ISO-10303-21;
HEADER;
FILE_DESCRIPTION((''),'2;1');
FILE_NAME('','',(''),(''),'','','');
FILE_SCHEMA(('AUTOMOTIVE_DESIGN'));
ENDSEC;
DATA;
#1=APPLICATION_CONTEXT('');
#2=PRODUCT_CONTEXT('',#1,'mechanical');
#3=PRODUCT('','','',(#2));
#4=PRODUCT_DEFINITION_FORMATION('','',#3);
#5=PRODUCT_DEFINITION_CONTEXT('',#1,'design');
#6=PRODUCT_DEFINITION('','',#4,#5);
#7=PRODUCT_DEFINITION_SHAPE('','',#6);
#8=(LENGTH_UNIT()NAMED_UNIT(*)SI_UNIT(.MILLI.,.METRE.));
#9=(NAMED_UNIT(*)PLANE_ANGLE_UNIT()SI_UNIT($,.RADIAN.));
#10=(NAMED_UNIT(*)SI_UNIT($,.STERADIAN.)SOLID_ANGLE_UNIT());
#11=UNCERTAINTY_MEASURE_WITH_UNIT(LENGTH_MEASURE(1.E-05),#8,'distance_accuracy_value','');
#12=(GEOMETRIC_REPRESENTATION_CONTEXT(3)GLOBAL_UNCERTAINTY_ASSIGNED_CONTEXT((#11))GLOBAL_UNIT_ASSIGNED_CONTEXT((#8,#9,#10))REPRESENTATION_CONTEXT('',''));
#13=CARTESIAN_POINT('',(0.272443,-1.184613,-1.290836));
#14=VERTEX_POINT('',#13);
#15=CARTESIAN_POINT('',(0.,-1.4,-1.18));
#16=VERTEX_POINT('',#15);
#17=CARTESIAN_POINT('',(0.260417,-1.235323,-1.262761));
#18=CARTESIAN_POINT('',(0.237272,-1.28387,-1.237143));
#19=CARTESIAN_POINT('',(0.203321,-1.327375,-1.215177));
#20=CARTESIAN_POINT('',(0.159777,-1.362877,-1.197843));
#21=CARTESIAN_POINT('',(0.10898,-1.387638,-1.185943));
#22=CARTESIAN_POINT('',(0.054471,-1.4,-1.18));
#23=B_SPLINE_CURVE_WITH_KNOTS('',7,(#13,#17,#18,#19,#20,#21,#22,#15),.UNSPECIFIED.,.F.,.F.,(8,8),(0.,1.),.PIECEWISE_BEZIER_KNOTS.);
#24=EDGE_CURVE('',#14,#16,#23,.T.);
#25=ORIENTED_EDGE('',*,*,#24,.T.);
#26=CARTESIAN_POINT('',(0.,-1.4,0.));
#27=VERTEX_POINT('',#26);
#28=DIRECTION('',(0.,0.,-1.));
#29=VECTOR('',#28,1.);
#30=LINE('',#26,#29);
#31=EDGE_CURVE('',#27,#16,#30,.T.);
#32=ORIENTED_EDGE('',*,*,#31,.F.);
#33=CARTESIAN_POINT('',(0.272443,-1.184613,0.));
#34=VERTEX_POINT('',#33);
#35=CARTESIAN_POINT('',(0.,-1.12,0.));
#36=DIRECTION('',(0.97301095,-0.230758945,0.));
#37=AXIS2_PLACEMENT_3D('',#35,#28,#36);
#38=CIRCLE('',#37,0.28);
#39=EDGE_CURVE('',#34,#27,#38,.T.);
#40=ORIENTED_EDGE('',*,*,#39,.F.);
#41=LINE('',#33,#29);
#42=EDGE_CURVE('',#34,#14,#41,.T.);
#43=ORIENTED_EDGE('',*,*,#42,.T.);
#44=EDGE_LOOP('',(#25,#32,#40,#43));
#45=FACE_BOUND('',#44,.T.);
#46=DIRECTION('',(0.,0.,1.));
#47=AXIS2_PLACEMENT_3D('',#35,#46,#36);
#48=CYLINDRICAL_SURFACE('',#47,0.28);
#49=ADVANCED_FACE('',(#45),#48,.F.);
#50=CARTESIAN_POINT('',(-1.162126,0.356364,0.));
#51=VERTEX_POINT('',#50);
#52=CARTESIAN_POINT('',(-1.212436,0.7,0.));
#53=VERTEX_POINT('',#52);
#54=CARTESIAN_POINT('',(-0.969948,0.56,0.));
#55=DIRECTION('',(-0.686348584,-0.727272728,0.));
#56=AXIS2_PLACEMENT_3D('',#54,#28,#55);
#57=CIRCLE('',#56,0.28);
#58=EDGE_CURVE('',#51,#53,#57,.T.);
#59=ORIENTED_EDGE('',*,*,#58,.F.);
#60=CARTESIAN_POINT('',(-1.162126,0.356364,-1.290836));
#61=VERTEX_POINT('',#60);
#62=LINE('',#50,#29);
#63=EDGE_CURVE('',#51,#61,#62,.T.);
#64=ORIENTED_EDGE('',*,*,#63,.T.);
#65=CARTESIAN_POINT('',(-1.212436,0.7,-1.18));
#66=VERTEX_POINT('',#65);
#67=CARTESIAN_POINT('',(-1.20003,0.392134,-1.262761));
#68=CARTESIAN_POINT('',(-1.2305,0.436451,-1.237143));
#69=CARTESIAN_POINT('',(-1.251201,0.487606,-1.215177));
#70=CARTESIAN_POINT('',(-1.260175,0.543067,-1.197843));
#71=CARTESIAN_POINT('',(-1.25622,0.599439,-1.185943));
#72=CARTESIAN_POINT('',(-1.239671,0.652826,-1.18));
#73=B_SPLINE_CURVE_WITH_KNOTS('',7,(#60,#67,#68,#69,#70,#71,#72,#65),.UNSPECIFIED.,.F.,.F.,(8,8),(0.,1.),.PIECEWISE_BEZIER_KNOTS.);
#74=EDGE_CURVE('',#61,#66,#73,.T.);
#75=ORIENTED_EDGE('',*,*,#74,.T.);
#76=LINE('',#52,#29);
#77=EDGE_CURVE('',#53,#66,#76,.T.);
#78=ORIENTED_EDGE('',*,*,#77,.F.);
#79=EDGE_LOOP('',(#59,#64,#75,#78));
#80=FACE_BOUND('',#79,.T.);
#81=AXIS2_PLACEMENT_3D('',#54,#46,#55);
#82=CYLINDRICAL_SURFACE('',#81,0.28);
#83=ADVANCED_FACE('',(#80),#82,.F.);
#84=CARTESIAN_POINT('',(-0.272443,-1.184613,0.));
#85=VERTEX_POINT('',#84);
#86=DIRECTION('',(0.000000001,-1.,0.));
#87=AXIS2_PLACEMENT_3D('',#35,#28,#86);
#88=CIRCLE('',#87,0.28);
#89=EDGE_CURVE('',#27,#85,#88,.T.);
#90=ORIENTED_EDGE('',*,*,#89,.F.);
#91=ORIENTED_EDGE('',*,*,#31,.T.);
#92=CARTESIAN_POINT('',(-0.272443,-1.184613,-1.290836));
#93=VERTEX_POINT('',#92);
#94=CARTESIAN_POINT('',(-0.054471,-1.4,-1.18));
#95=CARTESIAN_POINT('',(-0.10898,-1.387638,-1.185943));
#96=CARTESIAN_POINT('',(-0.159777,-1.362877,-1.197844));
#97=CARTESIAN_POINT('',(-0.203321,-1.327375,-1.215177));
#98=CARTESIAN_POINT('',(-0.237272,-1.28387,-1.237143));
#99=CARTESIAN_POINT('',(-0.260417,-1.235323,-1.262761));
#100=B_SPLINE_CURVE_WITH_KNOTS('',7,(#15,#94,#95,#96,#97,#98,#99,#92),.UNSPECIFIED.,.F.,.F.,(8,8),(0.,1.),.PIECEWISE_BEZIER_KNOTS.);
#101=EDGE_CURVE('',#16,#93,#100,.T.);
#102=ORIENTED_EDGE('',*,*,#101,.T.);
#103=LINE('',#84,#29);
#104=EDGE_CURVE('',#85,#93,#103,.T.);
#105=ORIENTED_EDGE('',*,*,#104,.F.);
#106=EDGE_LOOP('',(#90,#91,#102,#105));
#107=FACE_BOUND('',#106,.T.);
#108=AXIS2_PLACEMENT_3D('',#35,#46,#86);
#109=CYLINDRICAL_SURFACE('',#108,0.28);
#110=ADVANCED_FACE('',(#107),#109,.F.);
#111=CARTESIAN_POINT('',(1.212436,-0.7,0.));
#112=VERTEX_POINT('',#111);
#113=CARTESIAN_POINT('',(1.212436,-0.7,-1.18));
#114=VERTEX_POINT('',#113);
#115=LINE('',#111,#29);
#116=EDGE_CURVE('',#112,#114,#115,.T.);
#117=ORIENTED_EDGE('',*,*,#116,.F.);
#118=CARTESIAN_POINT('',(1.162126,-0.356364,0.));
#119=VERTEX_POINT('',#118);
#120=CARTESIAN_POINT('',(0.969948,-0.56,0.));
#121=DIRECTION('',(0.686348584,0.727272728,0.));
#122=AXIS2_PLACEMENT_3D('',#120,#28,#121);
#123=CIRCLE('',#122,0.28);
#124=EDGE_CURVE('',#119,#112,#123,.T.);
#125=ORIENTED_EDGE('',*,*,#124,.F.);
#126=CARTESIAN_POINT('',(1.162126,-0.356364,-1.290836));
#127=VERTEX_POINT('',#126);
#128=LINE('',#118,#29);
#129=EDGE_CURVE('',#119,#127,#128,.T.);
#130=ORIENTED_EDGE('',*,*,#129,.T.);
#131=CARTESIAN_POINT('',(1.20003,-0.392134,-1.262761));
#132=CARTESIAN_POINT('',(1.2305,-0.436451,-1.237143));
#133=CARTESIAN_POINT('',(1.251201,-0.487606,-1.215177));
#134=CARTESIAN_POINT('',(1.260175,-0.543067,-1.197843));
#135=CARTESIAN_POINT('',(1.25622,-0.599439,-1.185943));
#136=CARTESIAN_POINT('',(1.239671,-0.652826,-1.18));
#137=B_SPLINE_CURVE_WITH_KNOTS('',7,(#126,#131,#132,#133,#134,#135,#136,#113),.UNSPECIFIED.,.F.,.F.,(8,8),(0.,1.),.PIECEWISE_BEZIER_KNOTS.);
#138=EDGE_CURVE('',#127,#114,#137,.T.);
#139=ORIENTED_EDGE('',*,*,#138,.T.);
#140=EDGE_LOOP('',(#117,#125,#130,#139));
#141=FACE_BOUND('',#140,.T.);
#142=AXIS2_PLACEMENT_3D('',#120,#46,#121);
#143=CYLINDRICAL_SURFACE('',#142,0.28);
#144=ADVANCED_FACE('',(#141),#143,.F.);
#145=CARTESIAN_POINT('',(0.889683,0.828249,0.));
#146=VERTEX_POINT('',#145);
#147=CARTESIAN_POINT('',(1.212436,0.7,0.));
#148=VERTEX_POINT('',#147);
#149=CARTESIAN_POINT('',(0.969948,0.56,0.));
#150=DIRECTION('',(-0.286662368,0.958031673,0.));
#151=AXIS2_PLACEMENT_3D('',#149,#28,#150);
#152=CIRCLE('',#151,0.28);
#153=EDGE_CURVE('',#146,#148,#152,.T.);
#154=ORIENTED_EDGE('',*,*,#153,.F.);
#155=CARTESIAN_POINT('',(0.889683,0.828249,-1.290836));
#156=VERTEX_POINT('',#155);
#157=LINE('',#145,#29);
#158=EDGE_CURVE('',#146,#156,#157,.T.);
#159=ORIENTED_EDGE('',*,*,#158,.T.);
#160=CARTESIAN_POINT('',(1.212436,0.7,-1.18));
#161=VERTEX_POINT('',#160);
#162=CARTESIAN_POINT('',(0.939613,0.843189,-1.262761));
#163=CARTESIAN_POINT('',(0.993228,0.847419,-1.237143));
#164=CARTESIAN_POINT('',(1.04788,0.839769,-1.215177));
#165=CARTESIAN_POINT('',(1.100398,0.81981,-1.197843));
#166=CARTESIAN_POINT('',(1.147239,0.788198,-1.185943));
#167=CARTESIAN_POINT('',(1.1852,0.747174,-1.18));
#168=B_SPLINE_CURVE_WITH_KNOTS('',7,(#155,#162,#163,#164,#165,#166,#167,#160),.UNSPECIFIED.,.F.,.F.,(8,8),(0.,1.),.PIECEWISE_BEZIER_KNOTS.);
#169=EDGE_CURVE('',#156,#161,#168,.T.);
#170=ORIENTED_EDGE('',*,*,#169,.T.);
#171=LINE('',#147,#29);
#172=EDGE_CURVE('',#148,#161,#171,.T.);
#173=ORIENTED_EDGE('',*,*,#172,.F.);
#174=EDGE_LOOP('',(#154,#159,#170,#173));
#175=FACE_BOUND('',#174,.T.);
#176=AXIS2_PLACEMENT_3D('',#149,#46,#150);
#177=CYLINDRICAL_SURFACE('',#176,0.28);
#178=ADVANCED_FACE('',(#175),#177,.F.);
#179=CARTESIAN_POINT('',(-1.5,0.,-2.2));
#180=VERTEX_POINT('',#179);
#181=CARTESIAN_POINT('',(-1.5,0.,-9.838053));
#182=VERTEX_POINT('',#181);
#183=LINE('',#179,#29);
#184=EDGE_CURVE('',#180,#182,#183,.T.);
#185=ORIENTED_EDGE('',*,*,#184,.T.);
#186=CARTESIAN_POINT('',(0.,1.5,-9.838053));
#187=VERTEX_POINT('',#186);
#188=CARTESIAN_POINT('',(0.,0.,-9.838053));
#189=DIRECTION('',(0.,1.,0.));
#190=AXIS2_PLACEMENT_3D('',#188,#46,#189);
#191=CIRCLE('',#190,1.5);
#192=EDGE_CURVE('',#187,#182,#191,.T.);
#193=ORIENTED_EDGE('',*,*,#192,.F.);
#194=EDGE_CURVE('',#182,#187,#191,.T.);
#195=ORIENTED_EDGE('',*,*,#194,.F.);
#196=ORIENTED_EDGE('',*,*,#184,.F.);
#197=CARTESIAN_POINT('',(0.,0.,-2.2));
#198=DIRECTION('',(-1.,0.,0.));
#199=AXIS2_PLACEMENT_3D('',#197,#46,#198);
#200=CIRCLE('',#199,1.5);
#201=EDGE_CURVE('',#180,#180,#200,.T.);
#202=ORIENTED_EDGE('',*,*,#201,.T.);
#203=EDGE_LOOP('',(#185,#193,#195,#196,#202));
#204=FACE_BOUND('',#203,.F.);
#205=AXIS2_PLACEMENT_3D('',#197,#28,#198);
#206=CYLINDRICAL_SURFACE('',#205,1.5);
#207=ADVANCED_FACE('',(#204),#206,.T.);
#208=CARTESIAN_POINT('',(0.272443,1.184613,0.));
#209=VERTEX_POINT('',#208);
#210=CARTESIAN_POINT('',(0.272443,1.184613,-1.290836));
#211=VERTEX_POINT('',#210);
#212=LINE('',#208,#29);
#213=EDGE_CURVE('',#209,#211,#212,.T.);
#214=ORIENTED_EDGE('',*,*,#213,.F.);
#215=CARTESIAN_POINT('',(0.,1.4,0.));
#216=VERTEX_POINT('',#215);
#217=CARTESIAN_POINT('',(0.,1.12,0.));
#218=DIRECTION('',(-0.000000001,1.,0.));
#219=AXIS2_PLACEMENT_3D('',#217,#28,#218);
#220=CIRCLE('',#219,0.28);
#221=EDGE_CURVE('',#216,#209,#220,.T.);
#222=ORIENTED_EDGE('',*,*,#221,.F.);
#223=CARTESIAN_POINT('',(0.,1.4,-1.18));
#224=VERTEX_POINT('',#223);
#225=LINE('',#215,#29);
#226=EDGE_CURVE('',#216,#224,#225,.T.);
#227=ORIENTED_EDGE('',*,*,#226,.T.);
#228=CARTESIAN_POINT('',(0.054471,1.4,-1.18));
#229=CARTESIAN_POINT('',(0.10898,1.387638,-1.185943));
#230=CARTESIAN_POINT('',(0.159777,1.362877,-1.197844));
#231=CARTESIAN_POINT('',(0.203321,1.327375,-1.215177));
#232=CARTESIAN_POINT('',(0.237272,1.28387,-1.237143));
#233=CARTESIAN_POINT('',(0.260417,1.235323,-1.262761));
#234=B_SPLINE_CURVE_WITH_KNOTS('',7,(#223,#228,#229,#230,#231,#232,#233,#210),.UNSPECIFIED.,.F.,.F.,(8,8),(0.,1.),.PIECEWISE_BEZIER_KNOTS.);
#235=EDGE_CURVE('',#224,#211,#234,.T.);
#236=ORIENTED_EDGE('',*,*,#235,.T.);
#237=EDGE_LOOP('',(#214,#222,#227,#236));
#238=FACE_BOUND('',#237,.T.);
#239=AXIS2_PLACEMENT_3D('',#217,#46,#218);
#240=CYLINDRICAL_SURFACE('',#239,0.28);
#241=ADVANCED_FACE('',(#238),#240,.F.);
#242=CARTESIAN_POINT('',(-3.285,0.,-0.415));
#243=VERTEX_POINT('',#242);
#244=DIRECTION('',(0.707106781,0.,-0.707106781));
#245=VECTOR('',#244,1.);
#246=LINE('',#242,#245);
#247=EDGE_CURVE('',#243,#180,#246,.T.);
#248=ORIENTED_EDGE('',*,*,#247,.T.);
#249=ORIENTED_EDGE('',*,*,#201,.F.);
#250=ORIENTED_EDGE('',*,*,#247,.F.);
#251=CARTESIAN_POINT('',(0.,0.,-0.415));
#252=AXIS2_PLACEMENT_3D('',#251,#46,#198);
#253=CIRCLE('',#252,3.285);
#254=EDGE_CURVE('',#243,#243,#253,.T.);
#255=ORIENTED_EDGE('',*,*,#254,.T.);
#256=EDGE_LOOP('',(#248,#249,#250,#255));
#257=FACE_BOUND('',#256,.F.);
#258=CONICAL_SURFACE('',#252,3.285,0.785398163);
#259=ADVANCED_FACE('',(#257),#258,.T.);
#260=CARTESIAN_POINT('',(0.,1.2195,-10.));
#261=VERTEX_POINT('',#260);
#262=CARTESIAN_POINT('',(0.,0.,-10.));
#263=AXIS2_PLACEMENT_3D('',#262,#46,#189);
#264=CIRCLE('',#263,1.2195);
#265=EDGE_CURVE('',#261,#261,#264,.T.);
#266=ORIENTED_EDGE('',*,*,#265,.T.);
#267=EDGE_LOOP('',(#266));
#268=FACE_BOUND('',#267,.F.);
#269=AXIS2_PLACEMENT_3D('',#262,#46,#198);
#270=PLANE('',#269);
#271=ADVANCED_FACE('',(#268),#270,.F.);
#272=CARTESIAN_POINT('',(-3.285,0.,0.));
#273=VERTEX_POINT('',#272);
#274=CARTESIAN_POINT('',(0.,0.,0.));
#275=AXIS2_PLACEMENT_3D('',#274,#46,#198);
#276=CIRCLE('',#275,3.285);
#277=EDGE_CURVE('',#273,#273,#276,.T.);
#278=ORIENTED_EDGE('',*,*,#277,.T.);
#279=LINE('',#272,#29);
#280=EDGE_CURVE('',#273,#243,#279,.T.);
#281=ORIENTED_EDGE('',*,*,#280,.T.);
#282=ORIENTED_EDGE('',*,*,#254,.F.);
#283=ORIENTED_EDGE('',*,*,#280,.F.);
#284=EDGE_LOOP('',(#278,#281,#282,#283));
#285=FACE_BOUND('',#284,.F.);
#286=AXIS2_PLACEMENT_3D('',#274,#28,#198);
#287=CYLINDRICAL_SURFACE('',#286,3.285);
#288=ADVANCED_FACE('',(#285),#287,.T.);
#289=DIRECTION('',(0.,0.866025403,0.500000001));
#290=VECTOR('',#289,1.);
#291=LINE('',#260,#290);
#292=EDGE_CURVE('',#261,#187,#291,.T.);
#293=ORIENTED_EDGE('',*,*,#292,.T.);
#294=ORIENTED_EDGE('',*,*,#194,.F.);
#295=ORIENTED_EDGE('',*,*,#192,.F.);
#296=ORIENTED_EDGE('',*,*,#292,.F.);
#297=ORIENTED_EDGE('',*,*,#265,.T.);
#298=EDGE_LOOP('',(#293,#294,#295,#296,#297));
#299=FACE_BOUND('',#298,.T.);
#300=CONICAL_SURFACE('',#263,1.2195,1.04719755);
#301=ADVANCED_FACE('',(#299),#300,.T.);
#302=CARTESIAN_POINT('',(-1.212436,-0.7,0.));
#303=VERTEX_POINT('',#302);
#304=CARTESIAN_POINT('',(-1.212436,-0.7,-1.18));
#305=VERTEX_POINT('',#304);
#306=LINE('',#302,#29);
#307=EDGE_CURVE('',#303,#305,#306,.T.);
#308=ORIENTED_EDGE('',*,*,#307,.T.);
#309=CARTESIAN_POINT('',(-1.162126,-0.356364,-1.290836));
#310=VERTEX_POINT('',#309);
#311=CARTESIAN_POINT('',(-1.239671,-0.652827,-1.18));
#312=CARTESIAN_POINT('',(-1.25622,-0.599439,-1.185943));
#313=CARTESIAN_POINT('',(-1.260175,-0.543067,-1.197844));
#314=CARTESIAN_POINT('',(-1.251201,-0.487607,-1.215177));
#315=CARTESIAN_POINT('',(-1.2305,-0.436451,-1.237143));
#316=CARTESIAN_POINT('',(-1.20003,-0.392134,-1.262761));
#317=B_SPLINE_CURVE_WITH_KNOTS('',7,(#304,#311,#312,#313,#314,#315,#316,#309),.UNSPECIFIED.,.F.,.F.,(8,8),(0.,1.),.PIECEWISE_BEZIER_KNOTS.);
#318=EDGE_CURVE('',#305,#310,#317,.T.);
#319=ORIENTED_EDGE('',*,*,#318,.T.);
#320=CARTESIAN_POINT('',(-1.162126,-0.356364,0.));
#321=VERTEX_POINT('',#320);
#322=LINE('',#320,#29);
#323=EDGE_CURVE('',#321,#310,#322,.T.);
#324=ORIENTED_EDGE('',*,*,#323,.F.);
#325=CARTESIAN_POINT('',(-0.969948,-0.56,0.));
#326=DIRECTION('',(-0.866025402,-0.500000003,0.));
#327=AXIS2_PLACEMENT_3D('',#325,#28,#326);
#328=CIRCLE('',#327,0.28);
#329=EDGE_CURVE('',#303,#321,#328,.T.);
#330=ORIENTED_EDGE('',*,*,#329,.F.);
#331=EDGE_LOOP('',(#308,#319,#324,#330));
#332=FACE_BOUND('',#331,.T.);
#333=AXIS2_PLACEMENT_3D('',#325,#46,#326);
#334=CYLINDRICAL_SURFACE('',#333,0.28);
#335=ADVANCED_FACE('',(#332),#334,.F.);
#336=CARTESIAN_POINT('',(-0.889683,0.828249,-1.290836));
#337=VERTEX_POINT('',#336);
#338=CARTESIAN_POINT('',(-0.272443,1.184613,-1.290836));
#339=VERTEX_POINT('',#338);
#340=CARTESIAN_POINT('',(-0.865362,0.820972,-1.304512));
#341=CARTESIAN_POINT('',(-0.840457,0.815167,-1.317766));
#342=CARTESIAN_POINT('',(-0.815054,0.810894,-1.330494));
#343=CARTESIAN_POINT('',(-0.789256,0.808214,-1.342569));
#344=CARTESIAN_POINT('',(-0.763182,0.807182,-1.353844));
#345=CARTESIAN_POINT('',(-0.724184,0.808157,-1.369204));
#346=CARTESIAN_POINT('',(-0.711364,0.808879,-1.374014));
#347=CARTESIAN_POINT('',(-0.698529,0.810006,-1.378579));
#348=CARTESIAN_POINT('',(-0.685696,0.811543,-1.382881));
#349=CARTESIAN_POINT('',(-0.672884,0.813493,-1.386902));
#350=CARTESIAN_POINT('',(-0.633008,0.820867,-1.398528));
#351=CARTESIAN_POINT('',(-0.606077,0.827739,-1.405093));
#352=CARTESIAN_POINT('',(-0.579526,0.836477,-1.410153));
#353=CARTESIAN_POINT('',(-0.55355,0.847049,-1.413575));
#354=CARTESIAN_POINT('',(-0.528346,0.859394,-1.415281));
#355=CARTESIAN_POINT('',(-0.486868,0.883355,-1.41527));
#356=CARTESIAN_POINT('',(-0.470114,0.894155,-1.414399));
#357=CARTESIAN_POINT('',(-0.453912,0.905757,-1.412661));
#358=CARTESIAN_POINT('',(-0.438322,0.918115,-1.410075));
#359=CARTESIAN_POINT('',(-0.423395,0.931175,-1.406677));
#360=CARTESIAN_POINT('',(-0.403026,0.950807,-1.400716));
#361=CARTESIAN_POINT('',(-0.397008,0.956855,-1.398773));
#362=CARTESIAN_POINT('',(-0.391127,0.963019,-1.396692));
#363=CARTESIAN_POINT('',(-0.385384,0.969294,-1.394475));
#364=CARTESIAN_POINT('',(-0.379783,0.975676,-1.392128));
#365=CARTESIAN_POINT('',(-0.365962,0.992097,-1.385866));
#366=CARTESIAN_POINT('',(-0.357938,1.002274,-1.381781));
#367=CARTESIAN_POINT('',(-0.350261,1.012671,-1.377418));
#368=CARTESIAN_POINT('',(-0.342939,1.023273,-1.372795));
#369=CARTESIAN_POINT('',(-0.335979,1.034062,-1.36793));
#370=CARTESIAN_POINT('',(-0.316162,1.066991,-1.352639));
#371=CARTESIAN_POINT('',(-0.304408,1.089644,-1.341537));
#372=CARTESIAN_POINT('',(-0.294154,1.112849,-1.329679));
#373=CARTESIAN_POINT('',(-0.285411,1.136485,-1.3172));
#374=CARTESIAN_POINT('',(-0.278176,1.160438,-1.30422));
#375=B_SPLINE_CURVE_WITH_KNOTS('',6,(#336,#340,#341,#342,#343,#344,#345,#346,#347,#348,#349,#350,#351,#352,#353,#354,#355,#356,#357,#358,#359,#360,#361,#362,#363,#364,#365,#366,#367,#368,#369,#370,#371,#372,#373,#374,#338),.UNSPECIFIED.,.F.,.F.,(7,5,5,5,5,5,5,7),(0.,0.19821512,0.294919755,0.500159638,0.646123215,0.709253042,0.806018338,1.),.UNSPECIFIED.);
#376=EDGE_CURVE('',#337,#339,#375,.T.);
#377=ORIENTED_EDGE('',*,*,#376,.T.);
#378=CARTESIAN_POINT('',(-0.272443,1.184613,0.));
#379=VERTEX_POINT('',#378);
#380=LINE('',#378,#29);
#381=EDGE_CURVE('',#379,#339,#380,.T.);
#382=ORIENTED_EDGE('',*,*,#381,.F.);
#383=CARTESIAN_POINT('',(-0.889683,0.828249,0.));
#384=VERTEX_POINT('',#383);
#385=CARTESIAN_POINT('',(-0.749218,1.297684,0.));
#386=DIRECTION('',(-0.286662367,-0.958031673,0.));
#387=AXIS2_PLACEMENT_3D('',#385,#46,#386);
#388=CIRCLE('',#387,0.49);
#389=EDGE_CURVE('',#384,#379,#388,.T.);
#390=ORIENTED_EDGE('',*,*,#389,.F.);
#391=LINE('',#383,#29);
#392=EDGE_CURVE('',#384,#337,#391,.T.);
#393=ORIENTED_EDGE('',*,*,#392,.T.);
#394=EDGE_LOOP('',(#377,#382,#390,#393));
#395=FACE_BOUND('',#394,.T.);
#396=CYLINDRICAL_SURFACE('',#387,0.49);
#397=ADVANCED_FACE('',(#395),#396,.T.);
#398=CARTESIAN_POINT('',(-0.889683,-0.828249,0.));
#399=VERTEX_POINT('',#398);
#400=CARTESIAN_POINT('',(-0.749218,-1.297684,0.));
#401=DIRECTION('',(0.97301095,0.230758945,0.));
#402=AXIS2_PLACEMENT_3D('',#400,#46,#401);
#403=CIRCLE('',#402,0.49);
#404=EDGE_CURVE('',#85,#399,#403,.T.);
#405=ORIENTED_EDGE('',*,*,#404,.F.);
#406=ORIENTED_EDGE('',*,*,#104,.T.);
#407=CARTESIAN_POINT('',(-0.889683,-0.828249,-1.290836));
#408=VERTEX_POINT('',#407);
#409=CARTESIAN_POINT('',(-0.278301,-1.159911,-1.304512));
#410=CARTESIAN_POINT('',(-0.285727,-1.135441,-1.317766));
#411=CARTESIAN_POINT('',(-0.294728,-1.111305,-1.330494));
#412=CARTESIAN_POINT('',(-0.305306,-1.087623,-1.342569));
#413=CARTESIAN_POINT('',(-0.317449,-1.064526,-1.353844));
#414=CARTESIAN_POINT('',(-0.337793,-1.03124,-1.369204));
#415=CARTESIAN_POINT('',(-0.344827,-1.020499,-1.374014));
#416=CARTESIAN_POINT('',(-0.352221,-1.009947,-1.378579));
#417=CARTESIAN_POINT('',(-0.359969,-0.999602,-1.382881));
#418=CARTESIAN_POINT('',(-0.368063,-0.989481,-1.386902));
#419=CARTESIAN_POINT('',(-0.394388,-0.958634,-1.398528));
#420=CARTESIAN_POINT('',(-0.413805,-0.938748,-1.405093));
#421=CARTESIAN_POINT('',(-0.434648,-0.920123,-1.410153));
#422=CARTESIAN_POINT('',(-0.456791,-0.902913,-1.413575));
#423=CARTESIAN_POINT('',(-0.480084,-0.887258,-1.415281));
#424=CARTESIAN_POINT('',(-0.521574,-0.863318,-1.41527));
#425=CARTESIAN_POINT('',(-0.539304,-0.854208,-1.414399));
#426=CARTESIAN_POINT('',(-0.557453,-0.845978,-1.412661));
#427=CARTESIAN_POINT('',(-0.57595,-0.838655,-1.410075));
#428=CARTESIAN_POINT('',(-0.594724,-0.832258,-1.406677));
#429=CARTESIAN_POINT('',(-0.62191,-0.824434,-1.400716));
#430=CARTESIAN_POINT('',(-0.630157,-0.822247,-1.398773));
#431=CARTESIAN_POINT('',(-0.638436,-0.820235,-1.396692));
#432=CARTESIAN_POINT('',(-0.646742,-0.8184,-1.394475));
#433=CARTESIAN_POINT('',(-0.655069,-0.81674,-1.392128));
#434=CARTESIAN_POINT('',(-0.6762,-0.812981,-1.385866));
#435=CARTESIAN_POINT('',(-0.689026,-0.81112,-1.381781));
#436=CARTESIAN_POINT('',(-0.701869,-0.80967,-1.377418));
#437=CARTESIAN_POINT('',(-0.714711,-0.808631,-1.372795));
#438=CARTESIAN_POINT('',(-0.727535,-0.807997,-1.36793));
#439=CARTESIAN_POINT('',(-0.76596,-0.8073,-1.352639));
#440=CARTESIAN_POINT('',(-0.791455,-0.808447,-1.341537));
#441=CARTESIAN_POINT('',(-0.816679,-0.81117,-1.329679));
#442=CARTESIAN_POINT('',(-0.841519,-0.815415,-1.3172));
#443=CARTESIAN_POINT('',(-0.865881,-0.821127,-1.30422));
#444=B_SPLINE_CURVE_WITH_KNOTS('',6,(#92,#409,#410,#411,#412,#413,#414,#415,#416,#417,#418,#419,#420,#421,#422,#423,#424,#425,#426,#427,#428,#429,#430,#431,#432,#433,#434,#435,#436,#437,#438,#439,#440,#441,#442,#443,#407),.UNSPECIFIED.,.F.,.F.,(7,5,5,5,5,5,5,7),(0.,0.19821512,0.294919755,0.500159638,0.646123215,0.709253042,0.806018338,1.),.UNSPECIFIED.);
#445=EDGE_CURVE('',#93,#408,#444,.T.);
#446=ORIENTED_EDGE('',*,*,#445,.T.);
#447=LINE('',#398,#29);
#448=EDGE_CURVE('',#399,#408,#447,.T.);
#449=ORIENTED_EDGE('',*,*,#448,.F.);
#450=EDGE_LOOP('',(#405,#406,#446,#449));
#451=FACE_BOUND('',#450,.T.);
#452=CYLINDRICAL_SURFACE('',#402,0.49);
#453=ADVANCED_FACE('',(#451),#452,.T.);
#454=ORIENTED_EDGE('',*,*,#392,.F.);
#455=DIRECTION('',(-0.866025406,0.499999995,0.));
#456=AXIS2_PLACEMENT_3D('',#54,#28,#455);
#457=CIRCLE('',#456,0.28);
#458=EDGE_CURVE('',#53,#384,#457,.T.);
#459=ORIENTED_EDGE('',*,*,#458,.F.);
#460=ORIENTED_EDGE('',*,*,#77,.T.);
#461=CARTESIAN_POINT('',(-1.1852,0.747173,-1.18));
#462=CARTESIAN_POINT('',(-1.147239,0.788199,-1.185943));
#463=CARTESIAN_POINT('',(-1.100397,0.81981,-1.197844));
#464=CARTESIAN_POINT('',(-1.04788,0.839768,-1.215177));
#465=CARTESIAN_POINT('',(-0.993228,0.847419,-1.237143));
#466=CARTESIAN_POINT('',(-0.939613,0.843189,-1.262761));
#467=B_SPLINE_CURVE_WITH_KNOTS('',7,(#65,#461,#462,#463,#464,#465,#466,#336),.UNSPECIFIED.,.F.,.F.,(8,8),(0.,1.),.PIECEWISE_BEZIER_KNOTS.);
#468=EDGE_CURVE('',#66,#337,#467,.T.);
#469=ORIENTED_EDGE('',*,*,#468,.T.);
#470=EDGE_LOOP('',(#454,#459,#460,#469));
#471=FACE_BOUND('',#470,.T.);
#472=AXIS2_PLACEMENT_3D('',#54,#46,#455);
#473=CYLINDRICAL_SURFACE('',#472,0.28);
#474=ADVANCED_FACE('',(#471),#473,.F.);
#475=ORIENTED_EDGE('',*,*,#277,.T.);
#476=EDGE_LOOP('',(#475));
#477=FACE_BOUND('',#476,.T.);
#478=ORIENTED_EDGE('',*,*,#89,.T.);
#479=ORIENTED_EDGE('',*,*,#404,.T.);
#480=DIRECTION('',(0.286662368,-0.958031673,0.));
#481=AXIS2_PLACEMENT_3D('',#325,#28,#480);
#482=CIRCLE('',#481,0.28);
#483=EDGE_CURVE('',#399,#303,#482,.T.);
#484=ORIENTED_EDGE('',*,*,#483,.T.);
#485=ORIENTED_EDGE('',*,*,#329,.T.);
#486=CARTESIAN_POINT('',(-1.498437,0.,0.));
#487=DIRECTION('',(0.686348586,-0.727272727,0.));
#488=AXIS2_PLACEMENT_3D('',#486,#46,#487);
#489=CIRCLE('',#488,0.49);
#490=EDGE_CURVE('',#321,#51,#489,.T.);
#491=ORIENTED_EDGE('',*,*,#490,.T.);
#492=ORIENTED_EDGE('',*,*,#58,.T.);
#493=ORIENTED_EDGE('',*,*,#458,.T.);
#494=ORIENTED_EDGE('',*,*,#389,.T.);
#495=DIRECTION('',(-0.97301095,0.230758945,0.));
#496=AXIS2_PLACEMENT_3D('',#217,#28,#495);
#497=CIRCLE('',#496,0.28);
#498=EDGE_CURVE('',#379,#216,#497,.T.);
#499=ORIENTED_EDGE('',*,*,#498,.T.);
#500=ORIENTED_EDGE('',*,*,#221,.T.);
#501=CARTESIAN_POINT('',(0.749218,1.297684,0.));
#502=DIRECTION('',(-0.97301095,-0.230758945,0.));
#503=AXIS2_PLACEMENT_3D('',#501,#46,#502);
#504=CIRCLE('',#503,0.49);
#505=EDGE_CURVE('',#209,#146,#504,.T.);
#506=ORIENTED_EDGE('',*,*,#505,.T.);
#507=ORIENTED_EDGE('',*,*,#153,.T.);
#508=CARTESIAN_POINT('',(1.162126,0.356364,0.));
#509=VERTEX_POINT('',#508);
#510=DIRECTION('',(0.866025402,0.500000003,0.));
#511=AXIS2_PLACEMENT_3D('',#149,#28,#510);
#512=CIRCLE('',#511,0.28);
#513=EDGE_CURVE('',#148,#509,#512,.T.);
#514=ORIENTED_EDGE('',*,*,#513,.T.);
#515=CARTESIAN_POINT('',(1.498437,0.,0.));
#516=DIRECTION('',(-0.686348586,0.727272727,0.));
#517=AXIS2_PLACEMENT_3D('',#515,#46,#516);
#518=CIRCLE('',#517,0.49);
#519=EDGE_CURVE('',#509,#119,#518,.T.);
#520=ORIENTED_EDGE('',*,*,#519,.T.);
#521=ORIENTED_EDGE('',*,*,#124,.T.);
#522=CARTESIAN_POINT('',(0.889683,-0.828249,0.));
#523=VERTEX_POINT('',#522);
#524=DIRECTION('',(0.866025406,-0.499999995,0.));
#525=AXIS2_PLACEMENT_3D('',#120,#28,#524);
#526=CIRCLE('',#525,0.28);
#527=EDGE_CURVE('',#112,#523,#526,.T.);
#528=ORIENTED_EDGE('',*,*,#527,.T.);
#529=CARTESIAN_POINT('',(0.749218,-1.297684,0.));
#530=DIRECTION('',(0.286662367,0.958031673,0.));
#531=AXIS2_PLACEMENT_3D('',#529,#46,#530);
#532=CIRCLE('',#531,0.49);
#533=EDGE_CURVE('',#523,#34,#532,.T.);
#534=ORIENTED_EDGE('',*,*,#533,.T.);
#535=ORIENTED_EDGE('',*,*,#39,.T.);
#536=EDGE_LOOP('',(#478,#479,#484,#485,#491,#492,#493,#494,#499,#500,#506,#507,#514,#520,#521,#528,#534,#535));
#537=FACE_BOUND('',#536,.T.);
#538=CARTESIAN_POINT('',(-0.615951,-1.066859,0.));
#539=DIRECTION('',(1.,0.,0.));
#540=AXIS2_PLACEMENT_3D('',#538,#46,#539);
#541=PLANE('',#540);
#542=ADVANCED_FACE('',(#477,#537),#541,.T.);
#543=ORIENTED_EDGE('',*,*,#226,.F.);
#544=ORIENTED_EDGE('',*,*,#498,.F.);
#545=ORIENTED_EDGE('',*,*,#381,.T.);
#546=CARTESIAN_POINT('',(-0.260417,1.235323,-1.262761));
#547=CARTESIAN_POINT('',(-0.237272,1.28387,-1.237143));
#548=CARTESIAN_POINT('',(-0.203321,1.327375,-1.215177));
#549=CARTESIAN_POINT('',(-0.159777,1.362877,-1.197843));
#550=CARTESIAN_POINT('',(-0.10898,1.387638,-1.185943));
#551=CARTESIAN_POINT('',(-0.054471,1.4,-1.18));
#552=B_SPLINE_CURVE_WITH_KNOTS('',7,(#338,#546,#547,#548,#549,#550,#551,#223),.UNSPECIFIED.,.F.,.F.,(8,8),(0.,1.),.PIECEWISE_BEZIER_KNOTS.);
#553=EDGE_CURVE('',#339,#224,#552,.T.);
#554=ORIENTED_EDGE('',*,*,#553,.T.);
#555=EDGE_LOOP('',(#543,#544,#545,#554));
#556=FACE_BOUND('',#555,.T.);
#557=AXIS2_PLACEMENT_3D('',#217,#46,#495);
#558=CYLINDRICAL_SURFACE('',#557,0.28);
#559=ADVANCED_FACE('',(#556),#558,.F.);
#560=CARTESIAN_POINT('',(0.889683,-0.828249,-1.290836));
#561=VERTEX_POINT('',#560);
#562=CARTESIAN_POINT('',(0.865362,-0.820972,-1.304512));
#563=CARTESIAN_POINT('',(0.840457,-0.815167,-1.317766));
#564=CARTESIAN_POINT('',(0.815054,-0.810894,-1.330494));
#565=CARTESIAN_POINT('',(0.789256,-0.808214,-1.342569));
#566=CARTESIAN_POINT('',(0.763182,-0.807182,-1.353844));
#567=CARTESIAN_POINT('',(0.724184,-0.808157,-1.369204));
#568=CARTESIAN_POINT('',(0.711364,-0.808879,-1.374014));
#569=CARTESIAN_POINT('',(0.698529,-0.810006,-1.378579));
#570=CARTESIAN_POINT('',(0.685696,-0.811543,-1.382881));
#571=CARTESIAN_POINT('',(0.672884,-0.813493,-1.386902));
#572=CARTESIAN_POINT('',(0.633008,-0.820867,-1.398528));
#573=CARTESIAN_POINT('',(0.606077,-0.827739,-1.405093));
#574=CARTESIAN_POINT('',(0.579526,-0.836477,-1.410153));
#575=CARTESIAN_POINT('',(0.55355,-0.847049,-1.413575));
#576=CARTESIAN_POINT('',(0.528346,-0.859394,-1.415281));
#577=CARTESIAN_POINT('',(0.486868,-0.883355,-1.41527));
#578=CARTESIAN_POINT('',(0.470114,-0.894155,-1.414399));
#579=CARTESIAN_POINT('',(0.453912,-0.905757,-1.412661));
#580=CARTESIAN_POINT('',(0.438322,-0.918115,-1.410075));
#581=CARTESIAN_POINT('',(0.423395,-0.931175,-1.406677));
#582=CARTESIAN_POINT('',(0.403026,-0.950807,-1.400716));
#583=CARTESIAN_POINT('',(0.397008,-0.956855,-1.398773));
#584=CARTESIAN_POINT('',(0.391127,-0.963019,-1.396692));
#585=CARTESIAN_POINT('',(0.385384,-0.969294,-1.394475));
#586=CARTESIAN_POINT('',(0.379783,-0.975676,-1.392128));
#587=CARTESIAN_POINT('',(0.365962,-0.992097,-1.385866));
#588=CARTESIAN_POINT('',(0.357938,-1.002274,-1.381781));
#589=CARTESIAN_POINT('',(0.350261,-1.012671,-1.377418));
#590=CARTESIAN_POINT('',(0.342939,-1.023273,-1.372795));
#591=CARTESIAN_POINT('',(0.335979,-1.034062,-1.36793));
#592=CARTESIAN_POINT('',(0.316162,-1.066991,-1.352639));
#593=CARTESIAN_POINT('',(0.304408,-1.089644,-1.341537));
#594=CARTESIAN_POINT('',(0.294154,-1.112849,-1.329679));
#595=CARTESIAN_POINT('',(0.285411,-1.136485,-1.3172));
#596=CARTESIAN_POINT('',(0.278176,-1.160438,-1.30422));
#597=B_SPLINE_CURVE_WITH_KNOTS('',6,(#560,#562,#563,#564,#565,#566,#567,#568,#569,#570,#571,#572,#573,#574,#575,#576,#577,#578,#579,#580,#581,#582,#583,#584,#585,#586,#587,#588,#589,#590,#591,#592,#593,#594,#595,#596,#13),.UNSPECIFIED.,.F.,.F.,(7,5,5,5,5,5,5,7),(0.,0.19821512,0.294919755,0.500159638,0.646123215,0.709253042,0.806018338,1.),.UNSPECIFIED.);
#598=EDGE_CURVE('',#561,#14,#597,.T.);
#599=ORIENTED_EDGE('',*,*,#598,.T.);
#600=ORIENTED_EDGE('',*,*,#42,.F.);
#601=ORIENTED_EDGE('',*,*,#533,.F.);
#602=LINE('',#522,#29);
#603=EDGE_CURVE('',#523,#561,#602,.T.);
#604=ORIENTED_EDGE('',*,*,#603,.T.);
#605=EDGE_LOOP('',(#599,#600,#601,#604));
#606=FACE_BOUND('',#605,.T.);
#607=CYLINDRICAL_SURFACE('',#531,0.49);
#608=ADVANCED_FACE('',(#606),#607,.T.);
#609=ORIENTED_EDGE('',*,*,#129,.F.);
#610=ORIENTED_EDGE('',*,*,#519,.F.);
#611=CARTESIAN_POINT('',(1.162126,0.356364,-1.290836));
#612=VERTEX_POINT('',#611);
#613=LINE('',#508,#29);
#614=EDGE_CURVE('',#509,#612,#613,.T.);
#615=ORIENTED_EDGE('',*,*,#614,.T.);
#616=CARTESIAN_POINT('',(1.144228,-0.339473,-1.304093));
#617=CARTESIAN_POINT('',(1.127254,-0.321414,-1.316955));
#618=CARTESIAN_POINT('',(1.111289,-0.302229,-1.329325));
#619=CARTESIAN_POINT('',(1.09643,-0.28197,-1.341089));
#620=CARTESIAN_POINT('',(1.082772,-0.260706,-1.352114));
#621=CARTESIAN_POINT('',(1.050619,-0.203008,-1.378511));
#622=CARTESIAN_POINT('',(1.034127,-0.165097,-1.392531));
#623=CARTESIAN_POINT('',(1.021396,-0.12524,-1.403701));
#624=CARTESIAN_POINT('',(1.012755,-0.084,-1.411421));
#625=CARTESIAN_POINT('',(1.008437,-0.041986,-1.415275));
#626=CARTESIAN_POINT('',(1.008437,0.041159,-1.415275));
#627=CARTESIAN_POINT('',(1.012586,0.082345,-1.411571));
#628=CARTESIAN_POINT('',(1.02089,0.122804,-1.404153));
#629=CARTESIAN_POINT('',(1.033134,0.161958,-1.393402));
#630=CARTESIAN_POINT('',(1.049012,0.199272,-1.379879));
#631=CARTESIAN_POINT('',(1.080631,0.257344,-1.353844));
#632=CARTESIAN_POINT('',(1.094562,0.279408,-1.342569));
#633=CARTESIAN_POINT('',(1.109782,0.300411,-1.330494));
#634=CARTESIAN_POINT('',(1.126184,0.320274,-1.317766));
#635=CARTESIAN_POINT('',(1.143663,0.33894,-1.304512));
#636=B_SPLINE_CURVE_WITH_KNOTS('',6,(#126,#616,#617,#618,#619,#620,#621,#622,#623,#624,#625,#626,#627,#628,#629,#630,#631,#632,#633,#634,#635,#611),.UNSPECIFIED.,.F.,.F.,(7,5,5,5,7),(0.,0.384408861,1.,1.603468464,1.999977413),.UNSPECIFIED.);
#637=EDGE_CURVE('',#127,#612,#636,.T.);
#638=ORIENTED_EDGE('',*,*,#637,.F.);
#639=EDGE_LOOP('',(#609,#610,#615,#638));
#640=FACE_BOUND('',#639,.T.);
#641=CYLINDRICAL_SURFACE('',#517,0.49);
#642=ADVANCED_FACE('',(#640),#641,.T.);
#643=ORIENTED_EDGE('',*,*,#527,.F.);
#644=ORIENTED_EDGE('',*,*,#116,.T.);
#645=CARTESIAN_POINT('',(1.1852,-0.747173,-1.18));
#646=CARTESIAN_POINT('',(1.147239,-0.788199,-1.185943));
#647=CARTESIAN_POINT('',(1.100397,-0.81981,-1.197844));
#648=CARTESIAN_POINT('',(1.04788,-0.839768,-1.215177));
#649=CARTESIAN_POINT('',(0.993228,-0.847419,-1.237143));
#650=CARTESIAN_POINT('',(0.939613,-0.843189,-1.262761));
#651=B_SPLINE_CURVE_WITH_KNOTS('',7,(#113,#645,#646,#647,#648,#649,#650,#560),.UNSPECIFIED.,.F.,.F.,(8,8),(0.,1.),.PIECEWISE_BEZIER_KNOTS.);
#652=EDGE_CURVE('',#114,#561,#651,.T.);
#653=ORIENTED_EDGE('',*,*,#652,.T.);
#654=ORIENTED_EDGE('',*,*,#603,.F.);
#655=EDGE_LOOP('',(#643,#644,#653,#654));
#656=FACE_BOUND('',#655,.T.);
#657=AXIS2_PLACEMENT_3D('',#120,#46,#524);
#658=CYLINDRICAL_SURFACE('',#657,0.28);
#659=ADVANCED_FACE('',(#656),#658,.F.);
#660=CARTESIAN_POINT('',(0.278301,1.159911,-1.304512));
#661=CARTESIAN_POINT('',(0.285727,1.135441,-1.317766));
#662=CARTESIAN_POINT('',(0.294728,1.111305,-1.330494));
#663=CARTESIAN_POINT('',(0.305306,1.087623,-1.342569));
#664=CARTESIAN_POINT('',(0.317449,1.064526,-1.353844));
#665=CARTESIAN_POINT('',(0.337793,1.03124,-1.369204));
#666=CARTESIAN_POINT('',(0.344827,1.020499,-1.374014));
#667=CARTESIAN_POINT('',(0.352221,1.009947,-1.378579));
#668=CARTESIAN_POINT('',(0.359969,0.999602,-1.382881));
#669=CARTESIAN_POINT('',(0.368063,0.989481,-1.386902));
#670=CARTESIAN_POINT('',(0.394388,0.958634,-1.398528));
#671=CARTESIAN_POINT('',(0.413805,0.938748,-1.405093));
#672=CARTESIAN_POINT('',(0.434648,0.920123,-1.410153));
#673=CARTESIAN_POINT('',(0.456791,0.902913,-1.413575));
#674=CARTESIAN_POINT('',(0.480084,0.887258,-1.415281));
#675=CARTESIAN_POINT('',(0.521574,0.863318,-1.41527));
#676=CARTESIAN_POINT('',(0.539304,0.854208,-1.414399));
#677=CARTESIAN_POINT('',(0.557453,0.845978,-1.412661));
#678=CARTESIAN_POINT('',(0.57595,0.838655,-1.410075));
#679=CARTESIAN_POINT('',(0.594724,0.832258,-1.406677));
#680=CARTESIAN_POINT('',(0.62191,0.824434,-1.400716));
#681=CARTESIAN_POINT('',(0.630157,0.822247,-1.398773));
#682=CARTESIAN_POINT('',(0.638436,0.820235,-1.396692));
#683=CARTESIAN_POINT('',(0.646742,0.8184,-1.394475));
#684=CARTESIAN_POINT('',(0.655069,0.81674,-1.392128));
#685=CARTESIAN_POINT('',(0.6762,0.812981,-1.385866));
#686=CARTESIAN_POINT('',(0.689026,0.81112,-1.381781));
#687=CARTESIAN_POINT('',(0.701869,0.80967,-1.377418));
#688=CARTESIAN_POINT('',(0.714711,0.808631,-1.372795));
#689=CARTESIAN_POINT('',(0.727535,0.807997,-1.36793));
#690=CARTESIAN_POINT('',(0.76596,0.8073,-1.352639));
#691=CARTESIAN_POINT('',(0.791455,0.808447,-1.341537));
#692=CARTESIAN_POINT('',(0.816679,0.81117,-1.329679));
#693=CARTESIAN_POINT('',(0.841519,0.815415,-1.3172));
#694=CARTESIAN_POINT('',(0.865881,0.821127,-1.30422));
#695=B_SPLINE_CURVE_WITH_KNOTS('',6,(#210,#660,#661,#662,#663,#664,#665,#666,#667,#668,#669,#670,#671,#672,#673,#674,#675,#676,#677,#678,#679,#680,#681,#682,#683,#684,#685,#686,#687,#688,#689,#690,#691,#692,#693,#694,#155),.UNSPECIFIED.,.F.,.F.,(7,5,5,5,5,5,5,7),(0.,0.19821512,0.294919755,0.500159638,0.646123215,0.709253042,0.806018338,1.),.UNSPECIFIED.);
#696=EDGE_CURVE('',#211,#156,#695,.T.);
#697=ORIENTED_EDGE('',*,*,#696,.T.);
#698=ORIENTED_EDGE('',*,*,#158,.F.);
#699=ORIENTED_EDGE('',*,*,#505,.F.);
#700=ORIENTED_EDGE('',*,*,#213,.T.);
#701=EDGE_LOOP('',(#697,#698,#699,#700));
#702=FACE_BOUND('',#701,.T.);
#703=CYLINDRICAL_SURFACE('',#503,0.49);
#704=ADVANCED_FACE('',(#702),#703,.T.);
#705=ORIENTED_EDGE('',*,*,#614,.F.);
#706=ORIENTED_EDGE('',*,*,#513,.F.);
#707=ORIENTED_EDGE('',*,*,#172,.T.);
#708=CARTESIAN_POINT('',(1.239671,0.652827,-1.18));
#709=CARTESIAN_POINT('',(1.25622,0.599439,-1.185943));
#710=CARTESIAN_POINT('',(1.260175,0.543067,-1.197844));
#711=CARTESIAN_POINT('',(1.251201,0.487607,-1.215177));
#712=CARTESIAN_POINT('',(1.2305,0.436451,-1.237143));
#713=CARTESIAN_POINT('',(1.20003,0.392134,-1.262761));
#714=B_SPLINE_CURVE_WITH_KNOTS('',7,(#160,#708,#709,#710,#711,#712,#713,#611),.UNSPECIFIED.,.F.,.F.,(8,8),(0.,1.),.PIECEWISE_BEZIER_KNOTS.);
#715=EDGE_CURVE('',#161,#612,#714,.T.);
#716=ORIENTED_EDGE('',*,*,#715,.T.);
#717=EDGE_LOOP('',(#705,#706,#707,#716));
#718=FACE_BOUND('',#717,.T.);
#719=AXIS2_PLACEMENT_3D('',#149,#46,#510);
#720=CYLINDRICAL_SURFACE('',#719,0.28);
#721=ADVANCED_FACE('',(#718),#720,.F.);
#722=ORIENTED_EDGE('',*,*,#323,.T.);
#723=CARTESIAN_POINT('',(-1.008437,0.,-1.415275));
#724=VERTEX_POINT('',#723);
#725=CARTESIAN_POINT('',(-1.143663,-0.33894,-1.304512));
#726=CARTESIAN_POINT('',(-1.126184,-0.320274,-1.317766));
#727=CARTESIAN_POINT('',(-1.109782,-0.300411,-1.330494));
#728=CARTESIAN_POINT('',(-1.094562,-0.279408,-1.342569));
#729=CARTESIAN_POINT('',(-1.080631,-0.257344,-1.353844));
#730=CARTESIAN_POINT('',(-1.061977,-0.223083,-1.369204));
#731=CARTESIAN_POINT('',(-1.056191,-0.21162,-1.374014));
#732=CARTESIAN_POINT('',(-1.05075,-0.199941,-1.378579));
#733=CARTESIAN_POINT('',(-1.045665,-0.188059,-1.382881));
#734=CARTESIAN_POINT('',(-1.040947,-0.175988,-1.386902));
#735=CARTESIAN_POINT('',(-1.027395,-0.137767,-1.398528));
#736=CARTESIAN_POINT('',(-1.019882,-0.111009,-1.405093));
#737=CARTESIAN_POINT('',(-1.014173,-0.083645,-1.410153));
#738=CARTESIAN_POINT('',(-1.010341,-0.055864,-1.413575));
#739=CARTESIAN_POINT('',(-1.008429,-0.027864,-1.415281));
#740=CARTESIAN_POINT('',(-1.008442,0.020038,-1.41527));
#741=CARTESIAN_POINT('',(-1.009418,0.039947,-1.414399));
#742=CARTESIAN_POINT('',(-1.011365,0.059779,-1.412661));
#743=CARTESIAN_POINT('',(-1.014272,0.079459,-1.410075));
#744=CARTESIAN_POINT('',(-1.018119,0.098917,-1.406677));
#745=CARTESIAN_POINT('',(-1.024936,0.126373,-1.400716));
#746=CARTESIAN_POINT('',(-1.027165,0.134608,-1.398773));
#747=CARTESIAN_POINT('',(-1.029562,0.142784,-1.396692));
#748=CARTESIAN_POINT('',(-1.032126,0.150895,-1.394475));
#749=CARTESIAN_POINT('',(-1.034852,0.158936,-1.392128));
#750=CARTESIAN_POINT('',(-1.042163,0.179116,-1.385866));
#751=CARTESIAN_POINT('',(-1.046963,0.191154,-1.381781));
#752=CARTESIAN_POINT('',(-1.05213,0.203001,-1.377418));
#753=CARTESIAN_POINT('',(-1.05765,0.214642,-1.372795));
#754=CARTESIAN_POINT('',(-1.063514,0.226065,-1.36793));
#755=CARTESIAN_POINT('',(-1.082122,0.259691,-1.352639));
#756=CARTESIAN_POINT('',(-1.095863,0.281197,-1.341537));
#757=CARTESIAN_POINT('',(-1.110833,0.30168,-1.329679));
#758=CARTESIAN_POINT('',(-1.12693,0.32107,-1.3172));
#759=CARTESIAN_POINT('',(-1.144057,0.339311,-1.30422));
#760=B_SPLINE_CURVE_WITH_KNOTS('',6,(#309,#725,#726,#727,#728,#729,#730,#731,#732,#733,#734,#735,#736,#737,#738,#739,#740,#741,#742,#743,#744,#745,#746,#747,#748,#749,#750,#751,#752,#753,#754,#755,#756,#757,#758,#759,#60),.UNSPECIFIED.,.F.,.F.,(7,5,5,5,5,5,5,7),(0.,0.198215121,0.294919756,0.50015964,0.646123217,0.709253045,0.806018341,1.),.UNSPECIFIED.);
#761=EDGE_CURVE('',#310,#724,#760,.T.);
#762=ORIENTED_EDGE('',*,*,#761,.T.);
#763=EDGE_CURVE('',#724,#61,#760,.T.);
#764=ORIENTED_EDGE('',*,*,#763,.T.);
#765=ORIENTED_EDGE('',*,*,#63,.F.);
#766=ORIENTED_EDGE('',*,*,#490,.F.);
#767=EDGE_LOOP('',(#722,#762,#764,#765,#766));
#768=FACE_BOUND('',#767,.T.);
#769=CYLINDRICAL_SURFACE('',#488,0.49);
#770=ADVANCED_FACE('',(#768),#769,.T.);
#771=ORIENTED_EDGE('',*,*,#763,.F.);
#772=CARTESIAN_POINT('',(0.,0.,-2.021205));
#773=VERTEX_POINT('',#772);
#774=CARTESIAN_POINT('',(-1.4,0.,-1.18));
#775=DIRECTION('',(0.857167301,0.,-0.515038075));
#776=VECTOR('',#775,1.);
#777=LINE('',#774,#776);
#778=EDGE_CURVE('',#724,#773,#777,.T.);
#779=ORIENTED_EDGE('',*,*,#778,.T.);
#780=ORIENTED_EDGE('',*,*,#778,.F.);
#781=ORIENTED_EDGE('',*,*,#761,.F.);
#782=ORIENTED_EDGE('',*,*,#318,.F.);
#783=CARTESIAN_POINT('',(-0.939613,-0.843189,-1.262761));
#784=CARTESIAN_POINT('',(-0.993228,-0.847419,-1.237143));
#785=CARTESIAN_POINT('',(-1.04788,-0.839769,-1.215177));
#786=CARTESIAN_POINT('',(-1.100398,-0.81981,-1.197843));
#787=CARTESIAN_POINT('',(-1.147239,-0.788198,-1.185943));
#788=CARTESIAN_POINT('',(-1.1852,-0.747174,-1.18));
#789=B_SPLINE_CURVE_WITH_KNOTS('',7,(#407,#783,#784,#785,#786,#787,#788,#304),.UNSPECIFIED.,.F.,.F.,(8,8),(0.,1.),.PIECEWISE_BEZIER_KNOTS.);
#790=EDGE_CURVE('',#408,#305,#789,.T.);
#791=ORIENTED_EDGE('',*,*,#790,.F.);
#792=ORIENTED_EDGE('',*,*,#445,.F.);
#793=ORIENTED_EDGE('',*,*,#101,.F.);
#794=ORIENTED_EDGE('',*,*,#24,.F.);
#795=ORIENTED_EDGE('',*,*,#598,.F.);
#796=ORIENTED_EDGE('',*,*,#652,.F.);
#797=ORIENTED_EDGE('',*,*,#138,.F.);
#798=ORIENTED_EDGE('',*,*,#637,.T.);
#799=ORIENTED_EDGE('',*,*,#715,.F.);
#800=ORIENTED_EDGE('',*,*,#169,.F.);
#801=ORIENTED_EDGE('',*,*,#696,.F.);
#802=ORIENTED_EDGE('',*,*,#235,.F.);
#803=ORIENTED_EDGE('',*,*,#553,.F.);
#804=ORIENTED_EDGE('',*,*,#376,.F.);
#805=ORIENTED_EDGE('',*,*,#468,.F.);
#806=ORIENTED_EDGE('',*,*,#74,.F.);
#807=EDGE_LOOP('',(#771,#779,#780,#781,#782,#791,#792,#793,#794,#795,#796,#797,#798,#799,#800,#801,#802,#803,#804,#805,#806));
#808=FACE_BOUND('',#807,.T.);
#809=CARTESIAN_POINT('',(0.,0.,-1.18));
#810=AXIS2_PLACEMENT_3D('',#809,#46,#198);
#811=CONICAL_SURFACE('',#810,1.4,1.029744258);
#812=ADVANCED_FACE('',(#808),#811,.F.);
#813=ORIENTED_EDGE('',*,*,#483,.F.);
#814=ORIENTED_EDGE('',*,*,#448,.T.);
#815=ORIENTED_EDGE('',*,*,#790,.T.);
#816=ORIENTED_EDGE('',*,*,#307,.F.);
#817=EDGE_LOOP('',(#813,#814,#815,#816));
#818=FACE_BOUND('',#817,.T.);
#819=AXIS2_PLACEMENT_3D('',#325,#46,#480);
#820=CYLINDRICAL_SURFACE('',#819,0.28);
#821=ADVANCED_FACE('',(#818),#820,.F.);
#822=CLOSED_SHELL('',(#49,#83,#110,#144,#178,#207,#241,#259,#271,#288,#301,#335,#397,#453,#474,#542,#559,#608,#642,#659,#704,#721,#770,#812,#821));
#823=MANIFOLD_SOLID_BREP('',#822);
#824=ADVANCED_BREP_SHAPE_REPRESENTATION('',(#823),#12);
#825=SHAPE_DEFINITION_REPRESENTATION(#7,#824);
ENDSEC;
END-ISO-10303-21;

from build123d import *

# Parameters (mm, degrees)
HEXALOBULAR_REACH = 13.026


with BuildPart() as part:
    # BodySke → Base-Revolve (revolve)
    with BuildSketch(Plane(origin=(0, 0, 0), x_dir=(0, 0, -1), z_dir=(1, 0, 0)), mode=Mode.PRIVATE) as base_revolve_sk:
        Polygon((0, 0), (0, 3.285), (0.415, 3.285), (2.2, 1.5), (10, 1.5), (10, 0), align=None)
    revolve(base_revolve_sk.sketch.rotate(Axis((0, 0, 0), (0, 0, 1)), 90), axis=Axis((0, 0, 0), (0, 0, 1)))

    # PreBSke → PreBroach (revolve, cut)
    with BuildSketch(Plane(origin=(0, 0, 0), x_dir=(0, 0, -1), z_dir=(1, 0, 0)), mode=Mode.PRIVATE) as prebroach_sk:
        Polygon((0, 0), (0, 1.4), (1.18, 1.4), (2.021204867, 0), align=None)
    revolve(prebroach_sk.sketch.rotate(Axis((0, 0, 0), (0, 0, 1)), 90), axis=Axis((0, 0, 0), (0, 0, 1)), mode=Mode.SUBTRACT)

    # Hexalobular: up to this cone (the profile starts inside it)
    hexalobular_end = Plane(origin=(0, 0, 0), z_dir=(0, 0, 1)).offset(-2.021203867) * Cone(1.664e-06, 31.473280253, 18.911053656, align=(Align.CENTER, Align.CENTER, Align.MIN), mode=Mode.PRIVATE)
    # HexSke → Hexalobular (add, up to the surface)
    with BuildSketch(Plane.XY, mode=Mode.PRIVATE) as hexalobular_sk1:
        with BuildLine():
            ThreePointArc((-1.212435565, -0.7), (-1.246995094, -0.519439448), (-1.162126056, -0.356363636))
            ThreePointArc((-1.162126056, -0.356363636), (-1.008436863, 0), (-1.162126056, 0.356363636))
            ThreePointArc((-1.162126056, 0.356363636), (-1.246995094, 0.519439448), (-1.212435565, 0.7))
            ThreePointArc((-1.212435565, 0.7), (-1.4, 0), (-1.212435565, -0.7))
        make_face()
    hexalobular_tool1 = extrude(hexalobular_sk1.sketch, amount=-HEXALOBULAR_REACH, mode=Mode.PRIVATE) & hexalobular_end
    add(hexalobular_tool1.solids().sort_by_distance((-1.225792, 0, 0))[0])
    # HexSke → Hexalobular (add, up to the surface)
    with BuildSketch(Plane.XY, mode=Mode.PRIVATE) as hexalobular_sk2:
        with BuildLine():
            ThreePointArc((0, 1.4), (-0.7, 1.212435565), (-1.212435565, 0.7))
            ThreePointArc((-1.212435565, 0.7), (-1.073345305, 0.820209706), (-0.88968299, 0.828248869))
            ThreePointArc((-0.88968299, 0.828248869), (-0.504218431, 0.873331941), (-0.272443066, 1.184612505))
            ThreePointArc((-0.272443066, 1.184612505), (-0.173649789, 1.339649154), (0, 1.4))
        make_face()
    hexalobular_tool2 = extrude(hexalobular_sk2.sketch, amount=-HEXALOBULAR_REACH, mode=Mode.PRIVATE) & hexalobular_end
    add(hexalobular_tool2.solids().sort_by_distance((-0.612896, 1.061567, 0))[0])
    # HexSke → Hexalobular (add, up to the surface)
    with BuildSketch(Plane.XY, mode=Mode.PRIVATE) as hexalobular_sk3:
        with BuildLine():
            ThreePointArc((1.212435565, 0.7), (0.7, 1.212435565), (0, 1.4))
            ThreePointArc((0, 1.4), (0.173649789, 1.339649154), (0.272443066, 1.184612505))
            ThreePointArc((0.272443066, 1.184612505), (0.504218431, 0.873331941), (0.88968299, 0.828248869))
            ThreePointArc((0.88968299, 0.828248869), (1.073345305, 0.820209706), (1.212435565, 0.7))
        make_face()
    hexalobular_tool3 = extrude(hexalobular_sk3.sketch, amount=-HEXALOBULAR_REACH, mode=Mode.PRIVATE) & hexalobular_end
    add(hexalobular_tool3.solids().sort_by_distance((0.612896, 1.061567, 0))[0])
    # HexSke → Hexalobular (add, up to the surface)
    with BuildSketch(Plane.XY, mode=Mode.PRIVATE) as hexalobular_sk4:
        with BuildLine():
            ThreePointArc((1.162126056, -0.356363636), (1.246995094, -0.519439448), (1.212435565, -0.7))
            ThreePointArc((1.212435565, -0.7), (1.352296157, -0.362346663), (1.4, 0))
            ThreePointArc((1.4, 0), (1.352296157, 0.362346663), (1.212435565, 0.7))
            ThreePointArc((1.212435565, 0.7), (1.246995094, 0.519439448), (1.162126056, 0.356363636))
            ThreePointArc((1.162126056, 0.356363636), (1.008436863, 0), (1.162126056, -0.356363636))
        make_face()
    hexalobular_tool4 = extrude(hexalobular_sk4.sketch, amount=-HEXALOBULAR_REACH, mode=Mode.PRIVATE) & hexalobular_end
    add(hexalobular_tool4.solids().sort_by_distance((1.225792, 0, 0))[0])
    # HexSke → Hexalobular (add, up to the surface)
    with BuildSketch(Plane.XY, mode=Mode.PRIVATE) as hexalobular_sk5:
        with BuildLine():
            ThreePointArc((0.272443066, -1.184612505), (0.173649789, -1.339649154), (0, -1.4))
            ThreePointArc((0, -1.4), (0.7, -1.212435565), (1.212435565, -0.7))
            ThreePointArc((1.212435565, -0.7), (1.073345305, -0.820209706), (0.88968299, -0.828248869))
            ThreePointArc((0.88968299, -0.828248869), (0.504218431, -0.873331941), (0.272443066, -1.184612505))
        make_face()
    hexalobular_tool5 = extrude(hexalobular_sk5.sketch, amount=-HEXALOBULAR_REACH, mode=Mode.PRIVATE) & hexalobular_end
    add(hexalobular_tool5.solids().sort_by_distance((0.612896, -1.061567, 0))[0])
    # HexSke → Hexalobular (add, up to the surface)
    with BuildSketch(Plane.XY, mode=Mode.PRIVATE) as hexalobular_sk6:
        with BuildLine():
            ThreePointArc((-0.88968299, -0.828248869), (-1.073345305, -0.820209706), (-1.212435565, -0.7))
            ThreePointArc((-1.212435565, -0.7), (-0.7, -1.212435565), (0, -1.4))
            ThreePointArc((0, -1.4), (-0.173649789, -1.339649154), (-0.272443066, -1.184612505))
            ThreePointArc((-0.272443066, -1.184612505), (-0.504218431, -0.873331941), (-0.88968299, -0.828248869))
        make_face()
    hexalobular_tool6 = extrude(hexalobular_sk6.sketch, amount=-HEXALOBULAR_REACH, mode=Mode.PRIVATE) & hexalobular_end
    add(hexalobular_tool6.solids().sort_by_distance((-0.612896, -1.061567, 0))[0])

    # ThdSchSke → ThreadSchematic (revolve, cut)
    with BuildSketch(Plane(origin=(0, 0, 0), x_dir=(0, 0, -1), z_dir=(1, 0, 0))):
        Polygon((10.161946751, 1.5), (10, 1.2195), (9.838053249, 1.5), align=None)
    revolve(axis=Axis((0, 0, 0), (0, 0, 1)), mode=Mode.SUBTRACT)


solid = part.part
